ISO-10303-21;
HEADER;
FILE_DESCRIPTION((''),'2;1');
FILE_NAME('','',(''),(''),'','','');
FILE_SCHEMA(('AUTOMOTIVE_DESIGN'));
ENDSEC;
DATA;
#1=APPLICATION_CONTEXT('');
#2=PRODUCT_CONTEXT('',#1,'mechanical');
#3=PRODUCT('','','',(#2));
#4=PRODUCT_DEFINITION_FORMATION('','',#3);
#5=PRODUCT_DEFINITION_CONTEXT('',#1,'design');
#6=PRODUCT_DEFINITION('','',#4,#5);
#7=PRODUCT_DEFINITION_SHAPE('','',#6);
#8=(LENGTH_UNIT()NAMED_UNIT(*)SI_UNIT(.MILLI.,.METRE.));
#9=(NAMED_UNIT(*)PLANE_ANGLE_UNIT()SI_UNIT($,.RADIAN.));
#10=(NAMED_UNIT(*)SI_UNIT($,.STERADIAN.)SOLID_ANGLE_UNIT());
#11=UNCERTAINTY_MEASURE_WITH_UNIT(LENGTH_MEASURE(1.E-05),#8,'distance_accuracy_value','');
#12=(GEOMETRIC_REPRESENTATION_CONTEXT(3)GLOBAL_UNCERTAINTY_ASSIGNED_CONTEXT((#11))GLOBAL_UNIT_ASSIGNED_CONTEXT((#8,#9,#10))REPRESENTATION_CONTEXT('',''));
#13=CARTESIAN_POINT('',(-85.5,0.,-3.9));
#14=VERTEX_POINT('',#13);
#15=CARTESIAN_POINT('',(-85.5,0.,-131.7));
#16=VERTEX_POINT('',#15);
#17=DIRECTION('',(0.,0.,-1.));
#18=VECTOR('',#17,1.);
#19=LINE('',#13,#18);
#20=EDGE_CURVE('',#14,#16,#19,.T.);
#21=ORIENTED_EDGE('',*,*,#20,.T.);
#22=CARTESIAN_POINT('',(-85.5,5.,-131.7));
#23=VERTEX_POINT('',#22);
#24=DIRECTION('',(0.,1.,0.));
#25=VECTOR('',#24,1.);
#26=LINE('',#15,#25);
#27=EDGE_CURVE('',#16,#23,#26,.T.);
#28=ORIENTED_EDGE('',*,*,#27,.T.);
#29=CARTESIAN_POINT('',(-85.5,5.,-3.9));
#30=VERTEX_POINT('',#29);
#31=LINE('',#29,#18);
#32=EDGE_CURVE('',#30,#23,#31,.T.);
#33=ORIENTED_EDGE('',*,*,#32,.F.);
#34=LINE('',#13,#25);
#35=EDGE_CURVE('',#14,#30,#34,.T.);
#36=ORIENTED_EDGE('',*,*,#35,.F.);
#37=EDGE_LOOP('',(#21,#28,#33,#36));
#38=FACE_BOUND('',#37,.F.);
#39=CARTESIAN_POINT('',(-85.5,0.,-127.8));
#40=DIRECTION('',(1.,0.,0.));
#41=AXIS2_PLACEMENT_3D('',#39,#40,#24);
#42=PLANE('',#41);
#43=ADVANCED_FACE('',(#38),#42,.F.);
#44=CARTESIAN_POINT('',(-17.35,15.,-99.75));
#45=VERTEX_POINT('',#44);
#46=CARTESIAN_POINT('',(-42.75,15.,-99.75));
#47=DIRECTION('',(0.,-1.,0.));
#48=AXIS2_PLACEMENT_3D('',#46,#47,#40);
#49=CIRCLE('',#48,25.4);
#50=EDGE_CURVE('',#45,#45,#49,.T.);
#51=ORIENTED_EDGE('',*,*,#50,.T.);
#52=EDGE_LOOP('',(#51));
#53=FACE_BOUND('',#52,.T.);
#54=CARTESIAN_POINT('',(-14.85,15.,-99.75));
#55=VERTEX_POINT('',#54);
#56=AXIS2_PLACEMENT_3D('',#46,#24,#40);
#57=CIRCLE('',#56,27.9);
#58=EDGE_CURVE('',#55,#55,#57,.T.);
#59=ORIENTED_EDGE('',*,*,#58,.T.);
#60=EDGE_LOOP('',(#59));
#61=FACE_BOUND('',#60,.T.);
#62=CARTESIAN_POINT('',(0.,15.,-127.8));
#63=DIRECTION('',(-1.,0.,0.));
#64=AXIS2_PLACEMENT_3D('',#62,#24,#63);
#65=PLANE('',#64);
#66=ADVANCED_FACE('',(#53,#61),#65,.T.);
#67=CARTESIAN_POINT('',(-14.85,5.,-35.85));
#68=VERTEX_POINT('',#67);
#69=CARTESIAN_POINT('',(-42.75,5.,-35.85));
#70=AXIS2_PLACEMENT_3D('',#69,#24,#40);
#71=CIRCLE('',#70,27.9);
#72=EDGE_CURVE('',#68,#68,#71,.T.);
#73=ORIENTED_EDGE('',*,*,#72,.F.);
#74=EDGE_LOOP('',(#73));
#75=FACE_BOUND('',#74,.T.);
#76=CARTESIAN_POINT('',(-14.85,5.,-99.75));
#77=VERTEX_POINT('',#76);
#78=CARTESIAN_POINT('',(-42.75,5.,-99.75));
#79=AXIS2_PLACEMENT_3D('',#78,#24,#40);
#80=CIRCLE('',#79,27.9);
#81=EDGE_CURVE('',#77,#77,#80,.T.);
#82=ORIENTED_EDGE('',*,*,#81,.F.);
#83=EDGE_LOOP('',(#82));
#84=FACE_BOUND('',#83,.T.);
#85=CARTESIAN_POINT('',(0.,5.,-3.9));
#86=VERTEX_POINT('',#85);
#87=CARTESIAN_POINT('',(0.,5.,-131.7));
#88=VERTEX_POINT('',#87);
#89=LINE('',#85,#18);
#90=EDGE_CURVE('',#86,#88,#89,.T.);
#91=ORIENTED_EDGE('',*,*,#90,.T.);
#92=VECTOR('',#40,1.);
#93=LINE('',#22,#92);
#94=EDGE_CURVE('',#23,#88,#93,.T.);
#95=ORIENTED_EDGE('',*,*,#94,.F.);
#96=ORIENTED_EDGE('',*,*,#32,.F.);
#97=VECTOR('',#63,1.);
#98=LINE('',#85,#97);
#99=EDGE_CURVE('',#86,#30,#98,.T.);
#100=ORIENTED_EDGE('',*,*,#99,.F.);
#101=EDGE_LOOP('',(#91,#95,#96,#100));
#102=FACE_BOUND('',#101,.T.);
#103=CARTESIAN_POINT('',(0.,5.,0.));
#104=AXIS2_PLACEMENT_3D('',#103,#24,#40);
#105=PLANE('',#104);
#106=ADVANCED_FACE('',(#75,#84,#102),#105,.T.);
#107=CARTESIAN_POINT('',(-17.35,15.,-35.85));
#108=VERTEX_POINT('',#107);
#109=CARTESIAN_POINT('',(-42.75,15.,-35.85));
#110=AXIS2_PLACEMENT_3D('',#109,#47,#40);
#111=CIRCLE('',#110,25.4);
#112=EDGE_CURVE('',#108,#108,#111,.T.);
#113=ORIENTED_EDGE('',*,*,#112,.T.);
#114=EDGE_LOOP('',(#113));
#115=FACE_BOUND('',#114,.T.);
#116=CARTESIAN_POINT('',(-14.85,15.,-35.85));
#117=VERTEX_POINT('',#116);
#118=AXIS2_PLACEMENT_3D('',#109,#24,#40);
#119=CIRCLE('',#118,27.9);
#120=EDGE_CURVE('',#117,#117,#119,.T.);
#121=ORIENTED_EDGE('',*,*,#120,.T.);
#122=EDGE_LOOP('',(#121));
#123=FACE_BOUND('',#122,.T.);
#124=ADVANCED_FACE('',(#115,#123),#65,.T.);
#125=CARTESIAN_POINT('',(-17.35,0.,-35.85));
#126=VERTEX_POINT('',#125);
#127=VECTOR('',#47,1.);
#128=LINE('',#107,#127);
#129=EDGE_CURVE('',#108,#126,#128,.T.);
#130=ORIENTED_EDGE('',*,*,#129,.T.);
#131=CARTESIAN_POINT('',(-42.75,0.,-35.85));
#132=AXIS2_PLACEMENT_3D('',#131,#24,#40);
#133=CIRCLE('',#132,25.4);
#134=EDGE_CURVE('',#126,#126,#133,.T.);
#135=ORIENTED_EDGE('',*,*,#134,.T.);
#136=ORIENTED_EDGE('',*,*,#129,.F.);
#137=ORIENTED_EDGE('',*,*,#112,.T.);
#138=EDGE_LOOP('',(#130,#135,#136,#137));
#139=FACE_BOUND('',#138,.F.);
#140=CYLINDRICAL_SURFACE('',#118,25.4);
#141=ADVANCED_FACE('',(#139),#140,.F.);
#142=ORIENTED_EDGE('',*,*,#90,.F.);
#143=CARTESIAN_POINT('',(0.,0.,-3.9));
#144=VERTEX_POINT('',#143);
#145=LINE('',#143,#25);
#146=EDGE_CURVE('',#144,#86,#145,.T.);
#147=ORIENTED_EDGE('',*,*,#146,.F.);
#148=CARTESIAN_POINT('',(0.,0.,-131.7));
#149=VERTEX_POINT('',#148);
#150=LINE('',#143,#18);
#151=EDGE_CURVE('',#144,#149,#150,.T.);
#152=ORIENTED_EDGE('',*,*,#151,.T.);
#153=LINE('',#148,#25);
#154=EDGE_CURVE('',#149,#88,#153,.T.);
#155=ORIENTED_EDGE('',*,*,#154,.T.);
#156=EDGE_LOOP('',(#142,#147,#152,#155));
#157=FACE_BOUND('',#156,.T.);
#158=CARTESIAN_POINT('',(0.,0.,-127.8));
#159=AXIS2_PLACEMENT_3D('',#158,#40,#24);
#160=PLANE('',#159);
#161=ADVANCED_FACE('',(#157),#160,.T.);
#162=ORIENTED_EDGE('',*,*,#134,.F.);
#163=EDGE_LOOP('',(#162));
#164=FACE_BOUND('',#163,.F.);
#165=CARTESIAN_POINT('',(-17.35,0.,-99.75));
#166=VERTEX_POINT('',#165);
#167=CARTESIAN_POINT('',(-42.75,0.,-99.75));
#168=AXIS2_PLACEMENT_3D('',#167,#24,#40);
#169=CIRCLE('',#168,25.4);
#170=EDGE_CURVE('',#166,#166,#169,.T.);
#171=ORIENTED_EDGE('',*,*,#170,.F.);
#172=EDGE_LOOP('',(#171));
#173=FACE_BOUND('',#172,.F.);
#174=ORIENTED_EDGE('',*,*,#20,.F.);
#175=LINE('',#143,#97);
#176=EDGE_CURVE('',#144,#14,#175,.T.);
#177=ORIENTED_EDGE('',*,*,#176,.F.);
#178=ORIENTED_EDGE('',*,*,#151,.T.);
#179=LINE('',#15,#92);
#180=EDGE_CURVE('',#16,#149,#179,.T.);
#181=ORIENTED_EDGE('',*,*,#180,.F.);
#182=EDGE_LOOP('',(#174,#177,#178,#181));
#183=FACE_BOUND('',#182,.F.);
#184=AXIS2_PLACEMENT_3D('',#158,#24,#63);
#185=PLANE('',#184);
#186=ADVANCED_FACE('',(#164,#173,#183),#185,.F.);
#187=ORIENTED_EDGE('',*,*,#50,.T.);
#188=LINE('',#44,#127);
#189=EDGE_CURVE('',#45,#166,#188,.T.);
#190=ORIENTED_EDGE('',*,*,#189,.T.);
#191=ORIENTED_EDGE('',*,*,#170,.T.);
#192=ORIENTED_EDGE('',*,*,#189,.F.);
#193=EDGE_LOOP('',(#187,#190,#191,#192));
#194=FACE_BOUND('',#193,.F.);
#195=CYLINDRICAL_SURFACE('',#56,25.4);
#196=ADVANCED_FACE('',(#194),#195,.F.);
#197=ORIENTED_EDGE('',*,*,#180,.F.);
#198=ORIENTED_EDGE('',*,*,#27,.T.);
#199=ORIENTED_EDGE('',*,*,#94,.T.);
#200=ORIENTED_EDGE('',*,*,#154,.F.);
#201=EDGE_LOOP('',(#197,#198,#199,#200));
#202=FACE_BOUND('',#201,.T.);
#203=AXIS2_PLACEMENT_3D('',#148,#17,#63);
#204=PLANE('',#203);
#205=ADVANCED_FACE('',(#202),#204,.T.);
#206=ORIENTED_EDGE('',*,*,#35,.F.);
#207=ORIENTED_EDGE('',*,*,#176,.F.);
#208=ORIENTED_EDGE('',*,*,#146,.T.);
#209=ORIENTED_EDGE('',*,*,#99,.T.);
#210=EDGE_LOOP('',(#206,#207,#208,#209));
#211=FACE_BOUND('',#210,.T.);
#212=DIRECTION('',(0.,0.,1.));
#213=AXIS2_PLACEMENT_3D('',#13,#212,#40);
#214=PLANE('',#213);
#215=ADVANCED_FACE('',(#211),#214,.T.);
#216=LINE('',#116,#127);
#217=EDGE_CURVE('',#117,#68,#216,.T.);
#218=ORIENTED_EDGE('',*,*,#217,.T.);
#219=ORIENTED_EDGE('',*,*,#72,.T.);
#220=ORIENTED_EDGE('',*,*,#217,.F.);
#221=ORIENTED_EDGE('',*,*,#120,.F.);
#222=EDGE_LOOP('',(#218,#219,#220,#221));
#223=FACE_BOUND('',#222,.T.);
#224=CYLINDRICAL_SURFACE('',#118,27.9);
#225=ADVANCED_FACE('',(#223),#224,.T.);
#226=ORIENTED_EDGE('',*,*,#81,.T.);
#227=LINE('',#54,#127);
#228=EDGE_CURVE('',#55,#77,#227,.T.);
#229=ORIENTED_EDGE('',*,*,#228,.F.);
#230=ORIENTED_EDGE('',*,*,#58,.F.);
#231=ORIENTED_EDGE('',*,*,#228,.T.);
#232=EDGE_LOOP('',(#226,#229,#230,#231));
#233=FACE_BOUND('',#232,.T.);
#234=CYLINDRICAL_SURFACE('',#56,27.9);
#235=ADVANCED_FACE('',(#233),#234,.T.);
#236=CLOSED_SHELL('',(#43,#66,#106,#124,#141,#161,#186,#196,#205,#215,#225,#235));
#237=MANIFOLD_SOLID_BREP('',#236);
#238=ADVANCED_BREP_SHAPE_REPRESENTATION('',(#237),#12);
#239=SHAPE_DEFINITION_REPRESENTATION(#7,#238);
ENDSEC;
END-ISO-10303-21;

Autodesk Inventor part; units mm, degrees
ref_plane "YZ Plane" through (0, 0, 0) normal (1, 0, 0) x (0, 1, 0)
ref_plane "XZ Plane" through (0, 0, 0) normal (0, 1, 0) x (-1, 0, 0)
ref_plane "XY Plane" through (0, 0, 0) normal (0, 0, 1) x (1, 0, 0)
sketch "Sketch1" plane through (0, 0, 0) normal (0, 1, 0) x (-1, 0, 0)
  point P0 (0, 0)
sketch "Sketch2" plane through (0, 0, 0) normal (0, 1, 0) x (-1, 0, 0)
  line L0 (0, 0) -> (85.5, 0)
  line L1 (85.5, 0) -> (85.5, -127.8)
  line L2 (85.5, -127.8) -> (0, -127.8)
  line L3 (0, -127.8) -> (0, 0)
  dimension "d0" = 85.5
  dimension "d1" = 127.8
extrude "Extrusion1" add sketch "Sketch2" along normal blind 5
sketch "Sketch3" plane through (0, 5, 0) normal (0, 1, 0) x (1, 0, 0)
  line L0 (-85.5, 127.8) -> (-85.5, 0) projected
  line L1 (-85.5, 0) -> (0, 0)
  line L2 (0, 0) -> (0, 127.8)
  line L3 (0, 127.8) -> (-85.5, 127.8)
  line L4 (-85.5, 127.8) -> (-85.5, 0)
  line L5 (-2.4, 2.4) -> (-83.1, 2.4)
  line L6 (-83.1, 2.4) -> (-83.1, 125.4)
  line L7 (-83.1, 125.4) -> (-2.4, 125.4)
  line L8 (-2.4, 125.4) -> (-2.4, 2.4)
  dimension "d6" = 80.7
  dimension "d7" = 123
extrude "Extrusion2" add sketch "Sketch3" along normal blind 120
sketch "Sketch4" plane through (0, 0, 0) normal (1, 0, 0) x (0, 0, -1)
  line L0 (10, 10) -> (117.8, 10)
  line L1 (117.8, 10) -> (117.8, 115)
  line L2 (117.8, 115) -> (10, 115)
  line L3 (10, 115) -> (10, 10)
  point P0 (0, 0)
  dimension "d10" = 107.8
  dimension "d11" = 105
extrude "Extrusion3" cut sketch "Sketch4" against normal blind 500
sketch "Sketch5" plane through (0, 0, -127.8) normal (0, 0, -1) x (-1, 0, 0)
  line L0 (10, 10) -> (75.5, 10)
  line L1 (75.5, 10) -> (75.5, 115)
  line L2 (75.5, 115) -> (10, 115)
  line L3 (10, 115) -> (10, 10)
  point P0 (0, 0)
  dimension "d14" = 65.5
  dimension "d15" = 105
extrude "Extrusion4" cut sketch "Sketch5" against normal blind 500
sketch "Sketch6" plane through (-85.5, 0, -127.8) normal (-1, 0, 0) x (0, 0, 1)
  line L0 (2.4, 125) -> (125.4, 125) projected
  line L1 (63.9, 125) -> (63.9, 0)
  line L2 (0, 0) -> (127.8, 0) projected
  line L3 (63.9, 125) -> (58.9, 125)
  line L4 (58.9, 125) -> (58.9, 0)
  line L5 (58.9, 0) -> (63.9, 0)
  line L6 (63.9, 0) -> (63.9, 125)
  line L7 (63.9, 125) -> (68.9, 125)
  line L8 (68.9, 125) -> (68.9, 0)
  line L9 (68.9, 0) -> (63.9, 0)
  line L10 (63.9, 0) -> (63.9, 125)
  dimension "d18" = 5
  dimension "d19" = 5
extrude "Extrusion5" add sketch "Sketch6" against normal blind 2.4
sketch "Sketch7" plane through (0, 0, 0) normal (1, 0, 0) x (0, 0, -1)
  line L0 (117.8, 115) -> (10, 115) projected
  line L1 (63.9, 115) -> (63.9, 10)
  line L2 (10, 10) -> (117.8, 10) projected
  line L3 (58.9, 10) -> (58.9, 115) projected
  line L4 (117.8, 10) -> (68.9, 10) projected
  line L5 (58.9, 115) -> (68.9, 115)
  line L6 (68.9, 115) -> (68.9, 10)
  line L7 (68.9, 10) -> (58.9, 10)
  line L8 (58.9, 10) -> (58.9, 115)
  point P0 (0, 0)
extrude "Extrusion6" add sketch "Sketch7" against normal blind 2.4
sketch "Sketch8" plane through (0, 0, -127.8) normal (0, 0, -1) x (-1, 0, 0)
  line L0 (10, 100) -> (25, 115)
  line L1 (10, 115) -> (75.5, 115) projected
  line L2 (10, 100) -> (31.2132, 100) construction
  line L3 (75.5, 100) -> (60.5, 115)
  line L4 (75.5, 100) -> (96.7132, 100) construction
  line L5 (10, 10) -> (10, 115) projected
  line L6 (10, 25) -> (25, 10)
  line L7 (10, 10) -> (75.5, 10) projected
  line L8 (10, 25) -> (31.2132, 25) construction
  line L9 (75.5, 115) -> (75.5, 10) projected
  line L10 (75.5, 25) -> (60.5, 10)
  line L11 (10, 115) -> (75.5, 115)
  line L12 (75.5, 115) -> (75.5, 10)
  line L13 (75.5, 10) -> (10, 10)
  line L14 (10, 10) -> (10, 115)
  point P0 (0, 0)
  dimension "d24" = 45
  dimension "d25" = 135
  dimension "d26" = 45
extrude "Extrusion7" add sketch "Sketch8" against normal blind 2.4 contours L5 L1 L0 | L6 L7 L5 | L1 L9 L3 | L10 L9 L7
sketch "Sketch9" plane through (-85.5, 0, 0) normal (0, 0, 1) x (1, 0, 0)
  line L0 (10, 25) -> (10, 100) projected
  line L1 (25, 115) -> (60.5, 115) projected
  line L2 (10, 100) -> (25, 115)
  line L3 (60.5, 115) -> (75.5, 100) projected
  line L4 (25, 115) -> (60.5, 115)
  line L5 (60.5, 115) -> (75.5, 100)
  line L6 (75.5, 100) -> (75.5, 25) projected
  line L7 (75.5, 100) -> (75.5, 25)
  line L8 (75.5, 25) -> (60.5, 10)
  line L9 (25, 10) -> (60.5, 10) projected
  line L10 (10, 25) -> (25, 10) projected
  line L11 (25, 10) -> (10, 25)
  line L12 (10, 25) -> (10, 100)
  line L13 (10, 115) -> (75.5, 115)
  line L14 (75.5, 115) -> (75.5, 10)
  line L15 (75.5, 10) -> (10, 10)
  line L16 (10, 10) -> (10, 115)
  point P0 (85.5, 0)
  point P1 (60.5, 10)
extrude "Extrusion8" add sketch "Sketch9" against normal blind 2.4 contours L10 L15 L16 | L16 L13 L2 | L8 L14 L15 | L13 L14 L3
sketch "Sketch10" plane through (0, 0, 0) normal (1, 0, 0) x (0, 0, -1)
  line L0 (10, 115) -> (10, 10) projected
  line L1 (10, 100) -> (25, 115)
  line L2 (58.9, 115) -> (10, 115) projected
  line L3 (10, 100) -> (31.2132, 100) construction
  line L4 (58.9, 10) -> (58.9, 115) projected
  line L5 (58.9, 100) -> (43.9, 115)
  line L6 (58.9, 25) -> (43.9, 10)
  line L7 (10, 10) -> (58.9, 10) projected
  line L8 (10, 25) -> (25, 10)
  line L9 (68.9, 100) -> (83.9, 115)
  line L10 (68.9, 115) -> (117.8, 115) projected
  line L11 (68.9, 100) -> (90.1132, 100) construction
  line L12 (117.8, 115) -> (117.8, 10) projected
  line L13 (117.8, 100) -> (102.8, 115)
  line L14 (117.8, 25) -> (102.8, 10)
  line L15 (117.8, 10) -> (68.9, 10) projected
  line L16 (68.9, 25) -> (83.9, 10)
  line L17 (10, 115) -> (58.9, 115)
  line L18 (58.9, 115) -> (58.9, 10)
  line L19 (58.9, 10) -> (10, 10)
  line L20 (10, 10) -> (10, 115)
  line L21 (68.9, 115) -> (117.8, 115)
  line L22 (117.8, 115) -> (117.8, 10)
  line L23 (117.8, 10) -> (68.9, 10)
  line L24 (68.9, 10) -> (68.9, 115)
  point P0 (0, 0)
  dimension "d31" = 45
  dimension "d32" = 45
extrude "Extrusion9" add sketch "Sketch10" against normal blind 2.4 contours L2 L1 L0 | L8 L7 L0 | L2 L4 L5 | L6 L4 L7 | L24 L10 L9 | L16 L15 L24 | L10 L12 L13 | L14 L12 L15
sketch "Sketch11" plane through (-85.5, 0, -127.8) normal (-1, 0, 0) x (0, 0, 1)
  line L0 (10, 100) -> (25, 115) projected
  line L1 (10, 100) -> (25, 115)
  line L2 (25, 115) -> (43.9, 115) projected
  line L3 (25, 115) -> (43.9, 115)
  line L4 (43.9, 115) -> (58.9, 100)
  line L5 (58.9, 100) -> (58.9, 25)
  line L6 (58.9, 25) -> (43.9, 10) projected
  line L7 (10, 10) -> (58.9, 10) projected
  line L8 (25, 10) -> (10, 25) projected
  line L9 (43.9, 10) -> (25, 10)
  line L10 (25, 10) -> (10, 25)
  line L11 (10, 25) -> (10, 100)
  line L12 (10, 115) -> (10, 10) projected
  line L13 (68.9, 25) -> (68.9, 100) projected
  line L14 (83.9, 115) -> (102.8, 115) projected
  line L15 (68.9, 100) -> (83.9, 115)
  line L16 (83.9, 115) -> (102.8, 115)
  line L17 (102.8, 115) -> (117.8, 100)
  line L18 (117.8, 25) -> (102.8, 10) projected
  line L19 (117.8, 100) -> (117.8, 25)
  line L20 (117.8, 25) -> (102.8, 10)
  line L21 (83.9, 10) -> (102.8, 10) projected
  line L22 (102.8, 10) -> (83.9, 10)
  line L23 (83.9, 10) -> (68.9, 25)
  line L24 (68.9, 25) -> (68.9, 100)
  line L25 (10, 115) -> (58.9, 115)
  line L26 (58.9, 115) -> (58.9, 10)
  line L27 (58.9, 10) -> (10, 10)
  line L28 (10, 10) -> (10, 115)
  line L29 (68.9, 115) -> (117.8, 115)
  line L30 (117.8, 115) -> (117.8, 10)
  line L31 (117.8, 10) -> (68.9, 10)
  line L32 (68.9, 10) -> (68.9, 115)
  point P0 (127.8, 0)
extrude "Extrusion10" add sketch "Sketch11" against normal blind 2.4 contours L12 L25 L0 | L8 L7 L12 | L25 L26 L4 | L6 L26 L7 | L23 L31 L32 | L32 L29 L15 | L18 L30 L31 | L29 L30 L17
sketch "Sketch12" plane through (0, 125, 0) normal (0, 1, 0) x (1, 0, 0)
  line L0 (-83.1, 125.4) -> (-2.4, 125.4) projected
  line L1 (-83.1, 125.4) -> (-83.1, 2.4) projected
  line L2 (-2.4, 125.4) -> (-83.1, 125.4)
  line L3 (-83.1, 125.4) -> (-83.1, 2.4)
  line L4 (-83.1, 2.4) -> (-2.4, 2.4)
  line L5 (-2.4, 2.4) -> (-2.4, 125.4)
  point P0 (0, 0)
extrude "Extrusion11" add sketch "Sketch12" against normal blind 4.8
sketch "Sketch13" plane through (0, 125, 0) normal (0, 1, 0) x (1, 0, 0)
  line L0 (-2.4, 2.4) -> (-2.4, 125.4) projected
  line L1 (-83.1, 125.4) -> (-83.1, 2.4) projected
  line L2 (-2.4, 125.4) -> (-83.1, 125.4)
  line L3 (-83.1, 125.4) -> (-83.1, 2.4)
  line L4 (-83.1, 2.4) -> (-2.4, 2.4)
  line L5 (-2.4, 2.4) -> (-2.4, 125.4)
  point P0 (0, 0)
extrude "Extrusion12" cut sketch "Sketch13" against normal blind 2.4
sketch "Sketch14" plane through (0, 122.6, 0) normal (0, 1, 0) x (1, 0, 0)
  line L0 (-80.1, 122.4) -> (-5.4, 122.4)
  line L1 (-5.4, 122.4) -> (-5.4, 5.4)
  line L2 (-5.4, 5.4) -> (-80.1, 5.4)
  line L3 (-80.1, 5.4) -> (-80.1, 122.4)
  point P0 (0, 0)
  dimension "d41" = 74.7
  dimension "d42" = 117
extrude "Extrusion13" cut sketch "Sketch14" against normal blind 10
sketch "Sketch15" plane through (0, 0, 0) normal (1, 0, 0) x (0, 0, -1)
  line L0 (127.8, 0) -> (127.8, 125) projected
  line L1 (0, 125) -> (127.8, 125)
  line L2 (127.8, 125) -> (127.8, 119)
  line L3 (127.8, 119) -> (0, 119)
  line L4 (0, 119) -> (0, 125)
  line L5 (127.8, 125) -> (0, 125) projected
  line L6 (63.9, 125) -> (88.9, 125)
  line L7 (88.9, 125) -> (88.9, 119)
  line L8 (88.9, 119) -> (63.9, 119)
  line L9 (63.9, 119) -> (63.9, 125)
  line L10 (63.9, 125) -> (38.9, 125)
  line L11 (38.9, 125) -> (38.9, 119)
  line L12 (38.9, 119) -> (63.9, 119)
  line L13 (63.9, 119) -> (63.9, 125)
  point P0 (0, 0)
  dimension "d45" = 6
  dimension "d46" = 25
  dimension "d47" = 25
extrude "Extrusion14" cut sketch "Sketch15" against normal blind 100 contours L3 L9 L1 L7 | L3 L11 L1 L9
sketch "Sketch16" plane through (0, 0, -127.8) normal (0, 0, -1) x (-1, 0, 0)
  line L0 (0, 125) -> (0, 119) projected
  line L1 (85.5, 0) -> (85.5, 125) projected
  line L2 (0, 125) -> (85.5, 125)
  line L3 (85.5, 125) -> (85.5, 119)
  line L4 (85.5, 119) -> (0, 119)
  line L5 (0, 119) -> (0, 125)
  line L6 (0, 125) -> (85.5, 125) projected
  line L7 (42.75, 125) -> (67.75, 125)
  line L8 (67.75, 125) -> (67.75, 119)
  line L9 (67.75, 119) -> (42.75, 119)
  line L10 (42.75, 119) -> (42.75, 125)
  line L11 (42.75, 125) -> (17.75, 125)
  line L12 (17.75, 125) -> (17.75, 119)
  line L13 (17.75, 119) -> (42.75, 119)
  line L14 (42.75, 119) -> (42.75, 125)
  point P0 (0, 0)
  dimension "d50" = 6
  dimension "d51" = 25
  dimension "d52" = 25
extrude "Extrusion15" cut sketch "Sketch16" against normal blind 200 contours L2 L10 L4 L12 | L2 L8 L4 L10
sketch "Sketch17" plane through (-85.5, 0, 0) normal (0, 0, 1) x (1, 0, 0)
  line L0 (17.75, 119) -> (67.75, 119)
  line L1 (67.75, 119) -> (67.75, 118)
  line L2 (67.75, 118) -> (17.75, 118)
  line L3 (17.75, 118) -> (17.75, 119)
  point P0 (85.5, 0)
  dimension "d55" = 1
extrude "Extrusion16" cut sketch "Sketch17" against normal blind 200
sketch "Sketch18" plane through (0, 0, 0) normal (1, 0, 0) x (0, 0, -1)
  line L0 (38.9, 119) -> (38.9, 120.2) projected
  line L1 (38.9, 119) -> (88.9, 119)
  line L2 (88.9, 119) -> (88.9, 118)
  line L3 (88.9, 118) -> (38.9, 118)
  line L4 (38.9, 118) -> (38.9, 119)
  point P0 (0, 0)
  dimension "d58" = 1
extrude "Extrusion17" cut sketch "Sketch18" against normal blind 200
sketch "Sketch19" plane through (0, 0, -127.8) normal (0, 0, -1) x (-1, 0, 0)
  line L0 (17.75, 118) -> (67.75, 118) projected
  line L1 (17.75, 118) -> (67.75, 118)
  line L2 (67.75, 118) -> (67.75, 112)
  line L3 (67.75, 112) -> (17.75, 112)
  line L4 (17.75, 112) -> (17.75, 118)
  point P0 (0, 0)
  dimension "d61" = 50
  dimension "d62" = 6
extrude "Extrusion18" add sketch "Sketch19" against normal blind 2.4
sketch "Sketch20" plane through (-85.5, 0, -127.8) normal (-1, 0, 0) x (0, 0, 1)
  line L0 (2.4, 118) -> (0, 118) projected
  line L1 (127.8, 100) -> (127.8, 115) projected
  line L2 (0, 118) -> (127.8, 118)
  line L3 (127.8, 118) -> (127.8, 112)
  line L4 (127.8, 112) -> (0, 112)
  line L5 (0, 112) -> (0, 118)
  point P0 (127.8, 0)
  dimension "d65" = 6
extrude "Extrusion19" add sketch "Sketch20" against normal blind 2.4
sketch "Sketch21" plane through (-85.5, 0, 0) normal (0, 0, 1) x (1, 0, 0)
  line L0 (17.75, 118) -> (67.75, 118) projected
  line L1 (17.75, 118) -> (67.75, 118)
  line L2 (67.75, 118) -> (67.75, 112)
  line L3 (67.75, 112) -> (17.75, 112)
  line L4 (17.75, 112) -> (17.75, 118)
  point P0 (85.5, 0)
  dimension "d68" = 6
extrude "Extrusion20" add sketch "Sketch21" against normal blind 2.4
sketch "Sketch22" plane through (0, 0, 0) normal (1, 0, 0) x (0, 0, -1)
  line L0 (127.8, 0) -> (127.8, 125) projected
  line L1 (0, 118) -> (127.8, 118)
  line L2 (127.8, 118) -> (127.8, 112)
  line L3 (127.8, 112) -> (0, 112)
  line L4 (0, 112) -> (0, 118)
  point P0 (0, 0)
  dimension "d71" = 6
extrude "Extrusion21" add sketch "Sketch22" against normal blind 2.4
sketch "Sketch23" plane through (0, 125, 0) normal (0, 1, 0) x (1, 0, 0)
  line L0 (-85.5, 127.8) -> (-85.5, 0) projected
  line L1 (-85.5, 127.8) -> (0, 127.8)
  line L2 (0, 127.8) -> (0, 0)
  line L3 (0, 0) -> (-85.5, 0)
  line L4 (-85.5, 0) -> (-85.5, 127.8)
extrude "Extrusion22" cut sketch "Sketch23" against normal blind 120
sketch "Sketch24" plane through (0, 5, 0) normal (0, 1, 0) x (1, 0, 0)
  line L0 (0, 127.8) -> (-85.5, 127.8) projected
  line L1 (-42.75, 127.8) -> (-42.75, 0)
  line L2 (-85.5, 0) -> (0, 0) projected
  line L3 (-85.5, 127.8) -> (-85.5, 0) projected
  line L4 (-85.5, 63.9) -> (0, 63.9)
  line L5 (0, 0) -> (0, 127.8) projected
  line L6 (-42.75, 63.9) -> (-36.25, 63.9)
  line L7 (-36.25, 63.9) -> (-36.25, 70.4)
  line L8 (-36.25, 70.4) -> (-42.75, 70.4)
  line L9 (-42.75, 70.4) -> (-42.75, 63.9)
  line L10 (-36.25, 70.4) -> (-49.25, 70.4)
  line L11 (-49.25, 70.4) -> (-49.25, 57.4)
  line L12 (-49.25, 57.4) -> (-36.25, 57.4)
  line L13 (-36.25, 57.4) -> (-36.25, 70.4)
  line L14 (-42.75, 63.9) -> (-34.75, 63.9)
  line L15 (-34.75, 63.9) -> (-34.75, 71.9)
  line L16 (-34.75, 71.9) -> (-42.75, 71.9)
  line L17 (-42.75, 71.9) -> (-42.75, 63.9)
  line L18 (-34.75, 71.9) -> (-50.75, 71.9)
  line L19 (-50.75, 71.9) -> (-50.75, 55.9)
  line L20 (-50.75, 55.9) -> (-34.75, 55.9)
  line L21 (-34.75, 55.9) -> (-34.75, 71.9)
  dimension "d76" = 6.5
  dimension "d77" = 6.5
  dimension "d78" = 13
  dimension "d79" = 13
  dimension "d80" = 8
  dimension "d81" = 8
  dimension "d82" = 16
  dimension "d83" = 16
extrude "Extrusion23" add sketch "Sketch24" along normal blind 25 contours L16 L15 L4 L7 L8 L1 | L1 L10 L11 L4 L19 L18 | L21 L20 L1 L12 L13 L4 | L4 L11 L12 L1 L20 L19
sketch "Sketch26" plane through (0, 30, 0) normal (0, 1, 0) x (1, 0, 0)
  line L0 (-60.75, 81.9) -> (-60.75, 68.9) projected
  line L1 (-24.75, 45.9) -> (-37.75, 45.9) projected
  line L2 (-60.75, 81.9) -> (-24.75, 81.9)
  line L3 (-24.75, 81.9) -> (-24.75, 45.9)
  line L4 (-24.75, 45.9) -> (-60.75, 45.9)
  line L5 (-60.75, 45.9) -> (-60.75, 81.9)
  point P0 (0, 0)
extrude "Extrusion25" cut sketch "Sketch26" against normal blind 25
sketch "Sketch27" plane through (0, 5, 0) normal (0, 1, 0) x (1, 0, 0)
  line L0 (0, 127.8) -> (-85.5, 127.8) projected
  line L1 (-85.5, 127.8) -> (0, 127.8)
  line L2 (0, 127.8) -> (0, 0)
  line L3 (0, 0) -> (-85.5, 0)
  line L4 (-85.5, 0) -> (-85.5, 127.8)
  line L5 (-42.75, 127.8) -> (-42.75, 0)
  line L6 (0, 0) -> (0, 127.8) projected
  line L7 (-85.5, 127.8) -> (0, 127.8)
  line L8 (0, 127.8) -> (0, 117.8)
  line L9 (0, 117.8) -> (-85.5, 117.8)
  line L10 (-85.5, 117.8) -> (-85.5, 127.8)
  line L11 (-85.5, 127.8) -> (-85.5, 0) projected
  line L12 (0, 117.8) -> (-85.5, 117.8)
  line L13 (-85.5, 117.8) -> (-85.5, 97.8)
  line L14 (-85.5, 97.8) -> (0, 97.8)
  line L15 (0, 97.8) -> (0, 117.8)
  line L16 (-85.5, 97.8) -> (0, 97.8)
  line L17 (0, 97.8) -> (0, 77.8)
  line L18 (0, 77.8) -> (-85.5, 77.8)
  line L19 (-85.5, 77.8) -> (-85.5, 97.8)
  line L20 (-85.5, 77.8) -> (0, 77.8)
  line L21 (0, 77.8) -> (0, 57.8)
  line L22 (0, 57.8) -> (-85.5, 57.8)
  line L23 (-85.5, 57.8) -> (-85.5, 77.8)
  line L24 (-85.5, 57.8) -> (0, 57.8)
  line L25 (0, 57.8) -> (0, 37.8)
  line L26 (0, 37.8) -> (-85.5, 37.8)
  line L27 (-85.5, 37.8) -> (-85.5, 57.8)
  line L28 (-85.5, 37.8) -> (0, 37.8)
  line L29 (0, 37.8) -> (0, 17.8)
  line L30 (0, 17.8) -> (-85.5, 17.8)
  line L31 (-85.5, 17.8) -> (-85.5, 37.8)
  line L32 (-85.5, 127.8) -> (-42.75, 127.8)
  line L33 (0, 127.8) -> (-42.75, 127.8)
  line L34 (-64.125, 127.8) -> (-64.125, 0)
  line L35 (-85.5, 0) -> (0, 0) projected
  line L36 (-21.375, 127.8) -> (-21.375, 0)
  line L37 (-62.625, 127.8) -> (-65.625, 127.8)
  line L38 (-65.625, 127.8) -> (-65.625, 0)
  line L39 (-65.625, 0) -> (-62.625, 0)
  line L40 (-62.625, 0) -> (-62.625, 127.8)
  line L41 (-41.25, 127.8) -> (-44.25, 127.8)
  line L42 (-44.25, 127.8) -> (-44.25, 0)
  line L43 (-44.25, 0) -> (-41.25, 0)
  line L44 (-41.25, 0) -> (-41.25, 127.8)
  line L45 (-19.875, 127.8) -> (-22.875, 127.8)
  line L46 (-22.875, 127.8) -> (-22.875, 0)
  line L47 (-22.875, 0) -> (-19.875, 0)
  line L48 (-19.875, 0) -> (-19.875, 127.8)
  line L49 (-85.5, 117.8) -> (0, 117.8)
  line L50 (0, 117.8) -> (0, 120.8)
  line L51 (0, 120.8) -> (-85.5, 120.8)
  line L52 (-85.5, 120.8) -> (-85.5, 117.8)
  line L53 (-85.5, 120.8) -> (0, 120.8)
  line L54 (0, 120.8) -> (0, 114.8)
  line L55 (0, 114.8) -> (-85.5, 114.8)
  line L56 (-85.5, 114.8) -> (-85.5, 120.8)
  line L57 (-85.5, 97.8) -> (0, 97.8)
  line L58 (0, 97.8) -> (0, 100.8)
  line L59 (0, 100.8) -> (-85.5, 100.8)
  line L60 (-85.5, 100.8) -> (-85.5, 97.8)
  line L61 (0, 97.8) -> (-85.5, 97.8)
  line L62 (-85.5, 97.8) -> (-85.5, 94.8)
  line L63 (-85.5, 94.8) -> (0, 94.8)
  line L64 (0, 94.8) -> (0, 97.8)
  line L65 (-85.5, 77.8) -> (0, 77.8)
  line L66 (0, 77.8) -> (0, 80.8)
  line L67 (0, 80.8) -> (-85.5, 80.8)
  line L68 (-85.5, 80.8) -> (-85.5, 77.8)
  line L69 (0, 80.8) -> (-85.5, 80.8)
  line L70 (-85.5, 80.8) -> (-85.5, 74.8)
  line L71 (-85.5, 74.8) -> (0, 74.8)
  line L72 (0, 74.8) -> (0, 80.8)
  line L73 (-85.5, 57.8) -> (0, 57.8)
  line L74 (0, 57.8) -> (0, 60.8)
  line L75 (0, 60.8) -> (-85.5, 60.8)
  line L76 (-85.5, 60.8) -> (-85.5, 57.8)
  line L77 (0, 60.8) -> (-85.5, 60.8)
  line L78 (-85.5, 60.8) -> (-85.5, 54.8)
  line L79 (-85.5, 54.8) -> (0, 54.8)
  line L80 (0, 54.8) -> (0, 60.8)
  line L81 (-85.5, 37.8) -> (0, 37.8)
  line L82 (0, 37.8) -> (0, 40.8)
  line L83 (0, 40.8) -> (-85.5, 40.8)
  line L84 (-85.5, 40.8) -> (-85.5, 37.8)
  line L85 (-85.5, 40.8) -> (0, 40.8)
  line L86 (0, 40.8) -> (0, 34.8)
  line L87 (0, 34.8) -> (-85.5, 34.8)
  line L88 (-85.5, 34.8) -> (-85.5, 40.8)
  line L89 (-85.5, 17.8) -> (0, 17.8)
  line L90 (0, 17.8) -> (0, 20.8)
  line L91 (0, 20.8) -> (-85.5, 20.8)
  line L92 (-85.5, 20.8) -> (-85.5, 17.8)
  line L93 (0, 20.8) -> (-85.5, 20.8)
  line L94 (-85.5, 20.8) -> (-85.5, 14.8)
  line L95 (-85.5, 14.8) -> (0, 14.8)
  line L96 (0, 14.8) -> (0, 20.8)
  point P0 (-22.875, 20.8)
  point P1 (-22.875, 17.8)
  point P2 (-19.875, 17.8)
  point P3 (-19.875, 20.8)
  point P4 (-44.25, 20.8)
  point P5 (-44.25, 14.8)
  point P6 (-41.25, 14.8)
  point P7 (-41.25, 20.8)
  point P8 (-65.625, 20.8)
  point P9 (-65.625, 14.8)
  point P10 (-62.625, 14.8)
  point P11 (-62.625, 20.8)
  point P12 (-19.875, 40.8)
  point P13 (-22.875, 40.8)
  point P14 (-22.875, 34.8)
  point P15 (-19.875, 34.8)
  point P16 (-41.25, 40.8)
  point P17 (-44.25, 40.8)
  point P18 (-44.25, 34.8)
  point P19 (-41.25, 34.8)
  point P20 (-62.625, 40.8)
  point P21 (-65.625, 40.8)
  point P22 (-65.625, 34.8)
  point P23 (-62.625, 34.8)
  point P24 (-22.875, 60.8)
  point P25 (-22.875, 54.8)
  point P26 (-19.875, 54.8)
  point P27 (-19.875, 60.8)
  point P28 (-44.25, 60.8)
  point P29 (-44.25, 54.8)
  point P30 (-41.25, 54.8)
  point P31 (-41.25, 60.8)
  point P32 (-65.625, 60.8)
  point P33 (-65.625, 54.8)
  point P34 (-62.625, 54.8)
  point P35 (-62.625, 60.8)
  point P36 (-44.25, 80.8)
  point P37 (-44.25, 74.8)
  point P38 (-41.25, 74.8)
  point P39 (-41.25, 80.8)
  point P40 (-62.625, 80.8)
  point P41 (-65.625, 80.8)
  point P42 (-65.625, 74.8)
  point P43 (-62.625, 74.8)
  point P44 (-19.875, 80.8)
  point P45 (-22.875, 80.8)
  point P46 (-22.875, 74.8)
  point P47 (-19.875, 74.8)
  point P48 (-19.875, 100.8)
  point P49 (-22.875, 100.8)
  point P50 (-22.875, 94.8)
  point P51 (-19.875, 94.8)
  point P52 (-41.25, 94.8)
  point P53 (-41.25, 100.8)
  point P54 (-44.25, 100.8)
  point P55 (-44.25, 94.8)
  point P56 (-65.625, 100.8)
  point P57 (-65.625, 94.8)
  point P58 (-62.625, 94.8)
  point P59 (-62.625, 100.8)
  point P60 (-19.875, 120.8)
  point P61 (-22.875, 120.8)
  point P62 (-22.875, 114.8)
  point P63 (-19.875, 114.8)
  point P64 (-41.25, 120.8)
  point P65 (-44.25, 120.8)
  point P66 (-44.25, 114.8)
  point P67 (-41.25, 114.8)
  point P68 (-62.625, 120.8)
  point P69 (-65.625, 120.8)
  point P70 (-65.625, 114.8)
  point P71 (-62.625, 114.8)
  dimension "d100" = 10
  dimension "d101" = 20
  dimension "d102" = 20
  dimension "d103" = 20
  dimension "d104" = 20
  dimension "d105" = 20
  dimension "d106" = 3
  dimension "d107" = 3
  dimension "d108" = 3
  dimension "d109" = 3
  dimension "d110" = 6
  dimension "d111" = 3
  dimension "d112" = 3
  dimension "d113" = 3
  dimension "d114" = 6
  dimension "d115" = 3
  dimension "d116" = 85.5
  dimension "d117" = 6
  dimension "d118" = 3
  dimension "d119" = 6
  dimension "d120" = 3
  dimension "d121" = 6
extrude "Extrusion26" cut sketch "Sketch27" against normal blind 5 contours L48 L9 L36 L51 | L36 L9 L46 L51 | L48 L55 L36 L9 | L36 L55 L46 L9 | L44 L9 L5 L51 | L48 L14 L36 L59 | L5 L9 L42 L51 | L44 L55 L5 L9 | L36 L14 L46 L59 | L48 L63 L36 L14 | L5 L55 L42 L9 | L36 L63 L46 L14 | L40 L9 L34 L51 | L44 L14 L5 L59 | L48 L18 L36 L67 | L34 L9 L38 L51 | L40 L55 L34 L9 | L5 L14 L42 L59 | L44 L63 L5 L14 | L36 L18 L46 L67 | L48 L71 L36 L18 | L34 L55 L38 L9 | L5 L63 L42 L14 | L36 L71 L46 L18 | L40 L14 L34 L59 | L44 L18 L5 L67 | L48 L22 L36 L75 | L34 L14 L38 L59 | L40 L63 L34 L14 | L5 L18 L42 L67 | L44 L71 L5 L18 | L36 L22 L46 L75 | L48 L79 L36 L22 | L34 L63 L38 L14 | L5 L71 L42 L18 | L36 L79 L46 L22 | L40 L18 L34 L67 | L44 L22 L5 L75 | L48 L26 L36 L83 | L34 L18 L38 L67 | L40 L71 L34 L18 | L5 L22 L42 L75 | L44 L79 L5 L22 | L36 L26 L46 L83 | L48 L87 L36 L26 | L34 L71 L38 L18 | L5 L79 L42 L22 | L36 L87 L46 L26 | L40 L22 L34 L75 | L44 L26 L5 L83 | L48 L30 L36 L91 | L34 L22 L38 L75 | L40 L79 L34 L22 | L5 L26 L42 L83 | L44 L87 L5 L26 | L36 L30 L46 L91 | L34 L79 L38 L22 | L5 L87 L42 L26 | L40 L26 L34 L83 | L44 L30 L5 L91 | L34 L26 L38 L83 | L40 L87 L34 L26 | L5 L30 L42 L91 | L44 L95 L5 L30 | L34 L87 L38 L26 | L5 L95 L42 L30 | L40 L30 L34 L91 | L34 L30 L38 L91 | L40 L95 L34 L30 | L34 L95 L38 L30
sketch "Sketch28" plane through (0, 5, 0) normal (0, 1, 0) x (1, 0, 0)
  line L0 (-22.875, 17.8) -> (-19.875, 17.8) projected
  line L1 (-19.875, 17.8) -> (-22.875, 17.8)
  line L2 (-22.875, 17.8) -> (-22.875, 14.8)
  line L3 (-22.875, 14.8) -> (-19.875, 14.8)
  line L4 (-19.875, 14.8) -> (-19.875, 17.8)
  point P0 (0, 0)
  dimension "d124" = 3
  dimension "d125" = 3
extrude "Extrusion27" cut sketch "Sketch28" against normal blind 5
sketch "Sketch29" plane through (0, 5, 0) normal (0, 1, 0) x (1, 0, 0)
  line L0 (-22.875, 14.8) -> (-22.875, 20.8) projected
  line L1 (-22.875, 20.8) -> (-19.875, 20.8) projected
  line L2 (-19.875, 20.8) -> (-19.875, 14.8) projected
  line L3 (-19.875, 14.8) -> (-22.875, 14.8) projected
  line L4 (-19.875, 114.8) -> (-22.875, 114.8) projected
  line L5 (-22.875, 114.8) -> (-22.875, 120.8) projected
  line L6 (-22.875, 120.8) -> (-19.875, 120.8) projected
  line L7 (-19.875, 120.8) -> (-19.875, 114.8) projected
  line L8 (-19.875, 74.8) -> (-22.875, 74.8) projected
  line L9 (-22.875, 74.8) -> (-22.875, 80.8) projected
  line L10 (-22.875, 80.8) -> (-19.875, 80.8) projected
  line L11 (-19.875, 80.8) -> (-19.875, 74.8) projected
  line L12 (-41.25, 54.8) -> (-44.25, 54.8) projected
  line L13 (-44.25, 54.8) -> (-44.25, 60.8) projected
  line L14 (-44.25, 60.8) -> (-41.25, 60.8) projected
  line L15 (-41.25, 60.8) -> (-41.25, 54.8) projected
  line L16 (-19.875, 34.8) -> (-22.875, 34.8) projected
  line L17 (-22.875, 34.8) -> (-22.875, 40.8) projected
  line L18 (-22.875, 40.8) -> (-19.875, 40.8) projected
  line L19 (-19.875, 40.8) -> (-19.875, 34.8) projected
  line L20 (-41.25, 34.8) -> (-44.25, 34.8) projected
  line L21 (-44.25, 34.8) -> (-44.25, 40.8) projected
  line L22 (-44.25, 40.8) -> (-41.25, 40.8) projected
  line L23 (-41.25, 40.8) -> (-41.25, 34.8) projected
  line L24 (-62.625, 54.8) -> (-65.625, 54.8) projected
  line L25 (-65.625, 54.8) -> (-65.625, 60.8) projected
  line L26 (-65.625, 60.8) -> (-62.625, 60.8) projected
  line L27 (-62.625, 60.8) -> (-62.625, 54.8) projected
  line L28 (-19.875, 94.8) -> (-22.875, 94.8) projected
  line L29 (-22.875, 94.8) -> (-22.875, 100.8) projected
  line L30 (-22.875, 100.8) -> (-19.875, 100.8) projected
  line L31 (-19.875, 100.8) -> (-19.875, 94.8) projected
  line L32 (-41.25, 114.8) -> (-44.25, 114.8) projected
  line L33 (-44.25, 114.8) -> (-44.25, 120.8) projected
  line L34 (-44.25, 120.8) -> (-41.25, 120.8) projected
  line L35 (-41.25, 120.8) -> (-41.25, 114.8) projected
  line L36 (-62.625, 94.8) -> (-65.625, 94.8) projected
  line L37 (-65.625, 94.8) -> (-65.625, 100.8) projected
  line L38 (-65.625, 100.8) -> (-62.625, 100.8) projected
  line L39 (-62.625, 100.8) -> (-62.625, 94.8) projected
  line L40 (-62.625, 74.8) -> (-65.625, 74.8) projected
  line L41 (-65.625, 74.8) -> (-65.625, 80.8) projected
  line L42 (-65.625, 80.8) -> (-62.625, 80.8) projected
  line L43 (-62.625, 80.8) -> (-62.625, 74.8) projected
  line L44 (-19.875, 54.8) -> (-22.875, 54.8) projected
  line L45 (-22.875, 54.8) -> (-22.875, 60.8) projected
  line L46 (-22.875, 60.8) -> (-19.875, 60.8) projected
  line L47 (-19.875, 60.8) -> (-19.875, 54.8) projected
  line L48 (-62.625, 14.8) -> (-65.625, 14.8) projected
  line L49 (-65.625, 14.8) -> (-65.625, 20.8) projected
  line L50 (-65.625, 20.8) -> (-62.625, 20.8) projected
  line L51 (-62.625, 20.8) -> (-62.625, 14.8) projected
  line L52 (-41.25, 14.8) -> (-44.25, 14.8) projected
  line L53 (-44.25, 14.8) -> (-44.25, 20.8) projected
  line L54 (-44.25, 20.8) -> (-41.25, 20.8) projected
  line L55 (-41.25, 20.8) -> (-41.25, 14.8) projected
  line L56 (-62.625, 34.8) -> (-65.625, 34.8) projected
  line L57 (-65.625, 34.8) -> (-65.625, 40.8) projected
  line L58 (-65.625, 40.8) -> (-62.625, 40.8) projected
  line L59 (-62.625, 40.8) -> (-62.625, 34.8) projected
  line L60 (-41.25, 74.8) -> (-44.25, 74.8) projected
  line L61 (-44.25, 74.8) -> (-44.25, 80.8) projected
  line L62 (-44.25, 80.8) -> (-41.25, 80.8) projected
  line L63 (-41.25, 80.8) -> (-41.25, 74.8) projected
  line L64 (-44.25, 100.8) -> (-41.25, 100.8) projected
  line L65 (-41.25, 100.8) -> (-41.25, 94.8) projected
  line L66 (-41.25, 94.8) -> (-44.25, 94.8) projected
  line L67 (-44.25, 94.8) -> (-44.25, 100.8) projected
  line L68 (-62.625, 114.8) -> (-65.625, 114.8) projected
  line L69 (-65.625, 114.8) -> (-65.625, 120.8) projected
  line L70 (-65.625, 120.8) -> (-62.625, 120.8) projected
  line L71 (-62.625, 120.8) -> (-62.625, 114.8) projected
  line L72 (0, 127.8) -> (0, 0) projected
  line L73 (-85.5, 127.8) -> (0, 127.8) projected
  line L74 (-85.5, 0) -> (-85.5, 127.8) projected
  line L75 (0, 0) -> (-85.5, 0) projected
extrude "Extrusion28" add sketch "Sketch29" along normal blind 10
sketch "Sketch30" plane through (-85.5, 0, 0) normal (0, 0, 1) x (1, 0, 0)
  line L0 (0, 0) -> (0, 15) projected
  line L1 (0, 0) -> (85.5, 0) projected
  line L2 (85.5, 0) -> (85.5, 15) projected
  line L3 (0, 15) -> (85.5, 15) projected
extrude "Extrusion29" cut sketch "Sketch30" against normal blind 3.9
sketch "Sketch31" plane through (0, 0, -127.8) normal (0, 0, -1) x (-1, 0, 0)
  line L0 (0, 0) -> (0, 15) projected
  line L1 (0, 0) -> (85.5, 0) projected
  line L2 (85.5, 0) -> (85.5, 15) projected
  line L3 (0, 15) -> (85.5, 15) projected
extrude "Extrusion30" add sketch "Sketch31" along normal blind 3.9
sketch "Sketch32" plane through (0, 15, 0) normal (0, 1, 0) x (1, 0, 0)
  line L0 (-85.5, 3.9) -> (-85.5, 131.7) projected
  line L1 (-85.5, 3.9) -> (0, 3.9) projected
  line L2 (-85.5, 131.7) -> (-75.5, 131.7)
  line L3 (-75.5, 131.7) -> (-75.5, 3.9)
  line L4 (-75.5, 3.9) -> (-85.5, 3.9)
  line L5 (-85.5, 3.9) -> (-85.5, 131.7)
  line L6 (0, 3.9) -> (0, 131.7) projected
  line L7 (0, 131.7) -> (-10, 131.7)
  line L8 (-10, 131.7) -> (-10, 3.9)
  line L9 (-10, 3.9) -> (0, 3.9)
  line L10 (0, 3.9) -> (0, 131.7)
  point P0 (0, 0)
  point P1 (-10, 3.9)
  dimension "d140" = 10
  dimension "d141" = 10
extrude "Extrusion31" cut sketch "Sketch32" against normal blind 10
sketch "Sketch33" plane through (0, 15, 0) normal (0, 1, 0) x (1, 0, 0)
  line L0 (-65.625, 120.8) -> (-65.625, 114.8) projected
  line L1 (-65.625, 120.8) -> (-62.625, 120.8)
  line L2 (-62.625, 120.8) -> (-62.625, 122.8)
  line L3 (-62.625, 122.8) -> (-65.625, 122.8)
  line L4 (-65.625, 122.8) -> (-65.625, 120.8)
  line L5 (-65.625, 114.8) -> (-62.625, 114.8) projected
  line L6 (-65.625, 114.8) -> (-62.625, 114.8)
  line L7 (-62.625, 114.8) -> (-62.625, 112.8)
  line L8 (-62.625, 112.8) -> (-65.625, 112.8)
  line L9 (-65.625, 112.8) -> (-65.625, 114.8)
  line L10 (-41.25, 120.8) -> (-44.25, 120.8) projected
  line L11 (-44.25, 120.8) -> (-41.25, 120.8)
  line L12 (-41.25, 120.8) -> (-41.25, 122.8)
  line L13 (-41.25, 122.8) -> (-44.25, 122.8)
  line L14 (-44.25, 122.8) -> (-44.25, 120.8)
  line L15 (-19.875, 120.8) -> (-22.875, 120.8) projected
  line L16 (-22.875, 120.8) -> (-19.875, 120.8)
  line L17 (-19.875, 120.8) -> (-19.875, 122.8)
  line L18 (-19.875, 122.8) -> (-22.875, 122.8)
  line L19 (-22.875, 122.8) -> (-22.875, 120.8)
  line L20 (-44.25, 114.8) -> (-41.25, 114.8)
  line L21 (-41.25, 114.8) -> (-41.25, 112.8)
  line L22 (-41.25, 112.8) -> (-44.25, 112.8)
  line L23 (-44.25, 112.8) -> (-44.25, 114.8)
  line L24 (-22.875, 114.8) -> (-19.875, 114.8) projected
  line L25 (-22.875, 114.8) -> (-19.875, 114.8)
  line L26 (-19.875, 114.8) -> (-19.875, 112.8)
  line L27 (-19.875, 112.8) -> (-22.875, 112.8)
  line L28 (-22.875, 112.8) -> (-22.875, 114.8)
  line L29 (-62.625, 100.8) -> (-65.625, 100.8) projected
  line L30 (-65.625, 100.8) -> (-62.625, 100.8)
  line L31 (-62.625, 100.8) -> (-62.625, 102.8)
  line L32 (-62.625, 102.8) -> (-65.625, 102.8)
  line L33 (-65.625, 102.8) -> (-65.625, 100.8)
  line L34 (-65.625, 94.8) -> (-62.625, 94.8) projected
  line L35 (-65.625, 94.8) -> (-62.625, 94.8)
  line L36 (-62.625, 94.8) -> (-62.625, 92.8)
  line L37 (-62.625, 92.8) -> (-65.625, 92.8)
  line L38 (-65.625, 92.8) -> (-65.625, 94.8)
  line L39 (-44.25, 100.8) -> (-44.25, 94.8) projected
  line L40 (-44.25, 100.8) -> (-41.25, 100.8)
  line L41 (-41.25, 100.8) -> (-41.25, 102.8)
  line L42 (-41.25, 102.8) -> (-44.25, 102.8)
  line L43 (-44.25, 102.8) -> (-44.25, 100.8)
  line L44 (-44.25, 94.8) -> (-41.25, 94.8)
  line L45 (-41.25, 94.8) -> (-41.25, 92.8)
  line L46 (-41.25, 92.8) -> (-44.25, 92.8)
  line L47 (-44.25, 92.8) -> (-44.25, 94.8)
  line L48 (-22.875, 100.8) -> (-22.875, 94.8) projected
  line L49 (-22.875, 100.8) -> (-19.875, 100.8)
  line L50 (-19.875, 100.8) -> (-19.875, 102.8)
  line L51 (-19.875, 102.8) -> (-22.875, 102.8)
  line L52 (-22.875, 102.8) -> (-22.875, 100.8)
  line L53 (-22.875, 94.8) -> (-19.875, 94.8)
  line L54 (-19.875, 94.8) -> (-19.875, 92.8)
  line L55 (-19.875, 92.8) -> (-22.875, 92.8)
  line L56 (-22.875, 92.8) -> (-22.875, 94.8)
  line L57 (-65.625, 80.8) -> (-65.625, 74.8) projected
  line L58 (-65.625, 80.8) -> (-62.625, 80.8)
  line L59 (-62.625, 80.8) -> (-62.625, 82.8)
  line L60 (-62.625, 82.8) -> (-65.625, 82.8)
  line L61 (-65.625, 82.8) -> (-65.625, 80.8)
  line L62 (-65.625, 74.8) -> (-62.625, 74.8)
  line L63 (-62.625, 74.8) -> (-62.625, 72.8)
  line L64 (-62.625, 72.8) -> (-65.625, 72.8)
  line L65 (-65.625, 72.8) -> (-65.625, 74.8)
  line L66 (-41.25, 80.8) -> (-44.25, 80.8) projected
  line L67 (-44.25, 80.8) -> (-41.25, 80.8)
  line L68 (-41.25, 80.8) -> (-41.25, 82.8)
  line L69 (-41.25, 82.8) -> (-44.25, 82.8)
  line L70 (-44.25, 82.8) -> (-44.25, 80.8)
  line L71 (-44.25, 80.8) -> (-44.25, 74.8) projected
  line L72 (-44.25, 74.8) -> (-41.25, 74.8)
  line L73 (-41.25, 74.8) -> (-41.25, 72.8)
  line L74 (-41.25, 72.8) -> (-44.25, 72.8)
  line L75 (-44.25, 72.8) -> (-44.25, 74.8)
  line L76 (-19.875, 80.8) -> (-22.875, 80.8) projected
  line L77 (-22.875, 80.8) -> (-19.875, 80.8)
  line L78 (-19.875, 80.8) -> (-19.875, 82.8)
  line L79 (-19.875, 82.8) -> (-22.875, 82.8)
  line L80 (-22.875, 82.8) -> (-22.875, 80.8)
  line L81 (-22.875, 74.8) -> (-19.875, 74.8) projected
  line L82 (-22.875, 74.8) -> (-19.875, 74.8)
  line L83 (-19.875, 74.8) -> (-19.875, 72.8)
  line L84 (-19.875, 72.8) -> (-22.875, 72.8)
  line L85 (-22.875, 72.8) -> (-22.875, 74.8)
  line L86 (-62.625, 60.8) -> (-65.625, 60.8) projected
  line L87 (-65.625, 60.8) -> (-62.625, 60.8)
  line L88 (-62.625, 60.8) -> (-62.625, 62.8)
  line L89 (-62.625, 62.8) -> (-65.625, 62.8)
  line L90 (-65.625, 62.8) -> (-65.625, 60.8)
  line L91 (-65.625, 54.8) -> (-65.625, 60.8) projected
  line L92 (-65.625, 54.8) -> (-62.625, 54.8)
  line L93 (-62.625, 54.8) -> (-62.625, 52.8)
  line L94 (-62.625, 52.8) -> (-65.625, 52.8)
  line L95 (-65.625, 52.8) -> (-65.625, 54.8)
  line L96 (-62.625, 40.8) -> (-65.625, 40.8) projected
  line L97 (-65.625, 40.8) -> (-62.625, 40.8)
  line L98 (-62.625, 40.8) -> (-62.625, 42.8)
  line L99 (-62.625, 42.8) -> (-65.625, 42.8)
  line L100 (-65.625, 42.8) -> (-65.625, 40.8)
  line L101 (-65.625, 34.8) -> (-62.625, 34.8) projected
  line L102 (-65.625, 34.8) -> (-62.625, 34.8)
  line L103 (-62.625, 34.8) -> (-62.625, 32.8)
  line L104 (-62.625, 32.8) -> (-65.625, 32.8)
  line L105 (-65.625, 32.8) -> (-65.625, 34.8)
  line L106 (-65.625, 20.8) -> (-62.625, 20.8)
  line L107 (-62.625, 20.8) -> (-62.625, 22.8)
  line L108 (-62.625, 22.8) -> (-65.625, 22.8)
  line L109 (-65.625, 22.8) -> (-65.625, 20.8)
  line L110 (-65.625, 14.8) -> (-62.625, 14.8) projected
  line L111 (-65.625, 14.8) -> (-62.625, 14.8)
  line L112 (-62.625, 14.8) -> (-62.625, 12.8)
  line L113 (-62.625, 12.8) -> (-65.625, 12.8)
  line L114 (-65.625, 12.8) -> (-65.625, 14.8)
  line L115 (-44.25, 54.8) -> (-44.25, 60.8) projected
  line L116 (-44.25, 60.8) -> (-41.25, 60.8)
  line L117 (-41.25, 60.8) -> (-41.25, 62.8)
  line L118 (-41.25, 62.8) -> (-44.25, 62.8)
  line L119 (-44.25, 62.8) -> (-44.25, 60.8)
  line L120 (-41.25, 54.8) -> (-44.25, 54.8) projected
  line L121 (-44.25, 54.8) -> (-41.25, 54.8)
  line L122 (-41.25, 54.8) -> (-41.25, 52.8)
  line L123 (-41.25, 52.8) -> (-44.25, 52.8)
  line L124 (-44.25, 52.8) -> (-44.25, 54.8)
  line L125 (-19.875, 60.8) -> (-22.875, 60.8) projected
  line L126 (-22.875, 60.8) -> (-19.875, 60.8)
  line L127 (-19.875, 60.8) -> (-19.875, 62.8)
  line L128 (-19.875, 62.8) -> (-22.875, 62.8)
  line L129 (-22.875, 62.8) -> (-22.875, 60.8)
  line L130 (-19.875, 54.8) -> (-22.875, 54.8) projected
  line L131 (-22.875, 54.8) -> (-19.875, 54.8)
  line L132 (-19.875, 54.8) -> (-19.875, 52.8)
  line L133 (-19.875, 52.8) -> (-22.875, 52.8)
  line L134 (-22.875, 52.8) -> (-22.875, 54.8)
  line L135 (-44.25, 40.8) -> (-41.25, 40.8) projected
  line L136 (-44.25, 40.8) -> (-41.25, 40.8)
  line L137 (-41.25, 40.8) -> (-41.25, 42.8)
  line L138 (-41.25, 42.8) -> (-44.25, 42.8)
  line L139 (-44.25, 42.8) -> (-44.25, 40.8)
  line L140 (-44.25, 34.8) -> (-41.25, 34.8)
  line L141 (-41.25, 34.8) -> (-41.25, 32.8)
  line L142 (-41.25, 32.8) -> (-44.25, 32.8)
  line L143 (-44.25, 32.8) -> (-44.25, 34.8)
  line L144 (-44.25, 20.8) -> (-44.25, 14.8) projected
  line L145 (-44.25, 20.8) -> (-41.25, 20.8)
  line L146 (-41.25, 20.8) -> (-41.25, 22.8)
  line L147 (-41.25, 22.8) -> (-44.25, 22.8)
  line L148 (-44.25, 22.8) -> (-44.25, 20.8)
  line L149 (-44.25, 14.8) -> (-41.25, 14.8)
  line L150 (-41.25, 14.8) -> (-41.25, 12.8)
  line L151 (-41.25, 12.8) -> (-44.25, 12.8)
  line L152 (-44.25, 12.8) -> (-44.25, 14.8)
  line L153 (-22.875, 20.8) -> (-22.875, 14.8) projected
  line L154 (-22.875, 20.8) -> (-19.875, 20.8)
  line L155 (-19.875, 20.8) -> (-19.875, 22.8)
  line L156 (-19.875, 22.8) -> (-22.875, 22.8)
  line L157 (-22.875, 22.8) -> (-22.875, 20.8)
  line L158 (-22.875, 14.8) -> (-19.875, 14.8)
  line L159 (-19.875, 14.8) -> (-19.875, 12.8)
  line L160 (-19.875, 12.8) -> (-22.875, 12.8)
  line L161 (-22.875, 12.8) -> (-22.875, 14.8)
  line L162 (-22.875, 40.8) -> (-19.875, 40.8)
  line L163 (-19.875, 40.8) -> (-19.875, 42.8)
  line L164 (-19.875, 42.8) -> (-22.875, 42.8)
  line L165 (-22.875, 42.8) -> (-22.875, 40.8)
  line L166 (-22.875, 34.8) -> (-19.875, 34.8)
  line L167 (-19.875, 34.8) -> (-19.875, 32.8)
  line L168 (-19.875, 32.8) -> (-22.875, 32.8)
  line L169 (-22.875, 32.8) -> (-22.875, 34.8)
  point P0 (0, 0)
  dimension "d144" = 3
  dimension "d145" = 2
  dimension "d146" = 3
  dimension "d147" = 2
  dimension "d148" = 2
  dimension "d149" = 2
  dimension "d150" = 2
  dimension "d151" = 2
  dimension "d152" = 2
  dimension "d153" = 2
  dimension "d154" = 2
  dimension "d155" = 3
  dimension "d156" = 2
  dimension "d157" = 2
  dimension "d158" = 2
  dimension "d159" = 2
  dimension "d160" = 2
extrude "Extrusion32" cut sketch "Sketch33" against normal blind 100
chamfer "Chamfer3" distance 5 angle 45 72 edges at (-62.625, 15, -117.8) (-62.625, 15, -97.8) (-62.625, 15, -77.8) (-62.625, 15, -57.8) (-62.625, 15, -37.8) (-62.625, 15, -17.8) (-65.625, 15, -117.8) (-65.625, 15, -97.8) (-65.625, 15, -77.8) (-65.625, 15, -57.8) (-65.625, 15, -37.8) (-65.625, 15, -17.8) (-44.25, 15, -117.8) (-44.25, 15, -97.8) (-44.25, 15, -77.8) (-44.25, 15, -57.8) (-44.25, 15, -37.8) (-44.25, 15, -17.8) (-41.25, 15, -117.8) (-41.25, 15, -97.8) (-41.25, 15, -77.8) (-41.25, 15, -57.8) (-41.25, 15, -37.8) (-41.25, 15, -17.8) (-22.875, 15, -117.8) (-22.875, 15, -97.8) (-22.875, 15, -77.8) (-22.875, 15, -57.8) (-22.875, 15, -37.8) (-22.875, 15, -17.8) (-19.875, 15, -117.8) (-19.875, 15, -97.8) (-19.875, 15, -77.8) (-19.875, 15, -57.8) (-19.875, 15, -37.8) (-19.875, 15, -17.8) (-64.125, 15, -22.8) (-64.125, 15, -12.8) (-42.75, 15, -22.8) (-42.75, 15, -12.8) (-64.125, 15, -32.8) (-64.125, 15, -42.8) (-64.125, 15, -52.8) (-42.75, 15, -32.8) (-42.75, 15, -42.8) (-42.75, 15, -62.8) (-64.125, 15, -62.8) (-42.75, 15, -52.8) (-21.375, 15, -42.8) (-21.375, 15, -22.8) (-21.375, 15, -12.8) (-21.375, 15, -32.8) (-21.375, 15, -62.8) (-21.375, 15, -52.8) (-21.375, 15, -82.8) (-21.375, 15, -72.8) (-42.75, 15, -82.8) (-42.75, 15, -72.8) (-64.125, 15, -82.8) (-64.125, 15, -72.8) (-64.125, 15, -92.8) (-64.125, 15, -102.8) (-64.125, 15, -112.8) (-64.125, 15, -122.8) (-42.75, 15, -122.8) (-42.75, 15, -112.8) (-42.75, 15, -102.8) (-42.75, 15, -92.8) (-21.375, 15, -92.8) (-21.375, 15, -102.8) (-21.375, 15, -112.8) (-21.375, 15, -122.8)
sketch "Sketch34" plane through (0, 15, 0) normal (0, 1, 0) x (1, 0, 0)
  point P0 (0, 0)
sketch "Sketch35" plane through (0, 15, 0) normal (0, 1, 0) x (1, 0, 0)
  line L0 (-75.5, 131.7) -> (-75.5, 3.9) projected
  line L1 (0, 3.9) -> (-10, 3.9) projected
  line L2 (-75.5, 131.7) -> (-10, 131.7)
  line L3 (-10, 131.7) -> (-10, 3.9)
  line L4 (-10, 3.9) -> (-75.5, 3.9)
  line L5 (-75.5, 3.9) -> (-75.5, 131.7)
  point P0 (0, 0)
extrude "Extrusion33" add sketch "Sketch35" against normal blind 15
sketch "Sketch36" plane through (0, 15, 0) normal (0, 1, 0) x (1, 0, 0)
  line L0 (-10, 3.9) -> (-10, 131.7) projected
  line L1 (-10, 67.8) -> (-75.5, 67.8)
  line L2 (-75.5, 131.7) -> (-75.5, 3.9) projected
  line L3 (-75.5, 3.9) -> (-10, 3.9) projected
  line L4 (-42.75, 3.9) -> (-42.75, 67.8)
  line L5 (-42.75, 67.8) -> (-42.75, 131.7)
  line L6 (-75.5, 131.7) -> (-10, 131.7) projected
  circle A0 centre (-42.75, 99.75) radius 25.4
  circle A1 centre (-42.75, 35.85) radius 25.4
  point P0 (0, 0)
  dimension "d168" = 50.8
  dimension "d169" = 50.8
extrude "Extrusion34" cut sketch "Sketch36" against normal blind 15 contours A1 L4 | L4 A1 | A0 L5 | L5 A0
sketch "Sketch37" plane through (0, 15, 0) normal (0, 1, 0) x (1, 0, 0)
  circle A0 centre (-42.75, 99.75) radius 25.4 projected
  circle A1 centre (-42.75, 99.75) radius 27.9
  circle A2 centre (-42.75, 35.85) radius 25.4 projected
  circle A3 centre (-42.75, 35.85) radius 27.9
  line L0 (-10, 3.9) -> (-10, 131.7) projected
  line L1 (-75.5, 131.7) -> (-75.5, 3.9) projected
  line L2 (-10, 131.7) -> (-75.5, 131.7)
  line L3 (-75.5, 131.7) -> (-75.5, 3.9)
  line L4 (-75.5, 3.9) -> (-10, 3.9)
  line L5 (-10, 3.9) -> (-10, 131.7)
  point P0 (0, 0)
  dimension "d172" = 55.8
  dimension "d173" = 55.8
extrude "Extrusion35" cut sketch "Sketch37" against normal blind 10 contours L4 L1 L2 L0
properties part number "rinsing_station"
